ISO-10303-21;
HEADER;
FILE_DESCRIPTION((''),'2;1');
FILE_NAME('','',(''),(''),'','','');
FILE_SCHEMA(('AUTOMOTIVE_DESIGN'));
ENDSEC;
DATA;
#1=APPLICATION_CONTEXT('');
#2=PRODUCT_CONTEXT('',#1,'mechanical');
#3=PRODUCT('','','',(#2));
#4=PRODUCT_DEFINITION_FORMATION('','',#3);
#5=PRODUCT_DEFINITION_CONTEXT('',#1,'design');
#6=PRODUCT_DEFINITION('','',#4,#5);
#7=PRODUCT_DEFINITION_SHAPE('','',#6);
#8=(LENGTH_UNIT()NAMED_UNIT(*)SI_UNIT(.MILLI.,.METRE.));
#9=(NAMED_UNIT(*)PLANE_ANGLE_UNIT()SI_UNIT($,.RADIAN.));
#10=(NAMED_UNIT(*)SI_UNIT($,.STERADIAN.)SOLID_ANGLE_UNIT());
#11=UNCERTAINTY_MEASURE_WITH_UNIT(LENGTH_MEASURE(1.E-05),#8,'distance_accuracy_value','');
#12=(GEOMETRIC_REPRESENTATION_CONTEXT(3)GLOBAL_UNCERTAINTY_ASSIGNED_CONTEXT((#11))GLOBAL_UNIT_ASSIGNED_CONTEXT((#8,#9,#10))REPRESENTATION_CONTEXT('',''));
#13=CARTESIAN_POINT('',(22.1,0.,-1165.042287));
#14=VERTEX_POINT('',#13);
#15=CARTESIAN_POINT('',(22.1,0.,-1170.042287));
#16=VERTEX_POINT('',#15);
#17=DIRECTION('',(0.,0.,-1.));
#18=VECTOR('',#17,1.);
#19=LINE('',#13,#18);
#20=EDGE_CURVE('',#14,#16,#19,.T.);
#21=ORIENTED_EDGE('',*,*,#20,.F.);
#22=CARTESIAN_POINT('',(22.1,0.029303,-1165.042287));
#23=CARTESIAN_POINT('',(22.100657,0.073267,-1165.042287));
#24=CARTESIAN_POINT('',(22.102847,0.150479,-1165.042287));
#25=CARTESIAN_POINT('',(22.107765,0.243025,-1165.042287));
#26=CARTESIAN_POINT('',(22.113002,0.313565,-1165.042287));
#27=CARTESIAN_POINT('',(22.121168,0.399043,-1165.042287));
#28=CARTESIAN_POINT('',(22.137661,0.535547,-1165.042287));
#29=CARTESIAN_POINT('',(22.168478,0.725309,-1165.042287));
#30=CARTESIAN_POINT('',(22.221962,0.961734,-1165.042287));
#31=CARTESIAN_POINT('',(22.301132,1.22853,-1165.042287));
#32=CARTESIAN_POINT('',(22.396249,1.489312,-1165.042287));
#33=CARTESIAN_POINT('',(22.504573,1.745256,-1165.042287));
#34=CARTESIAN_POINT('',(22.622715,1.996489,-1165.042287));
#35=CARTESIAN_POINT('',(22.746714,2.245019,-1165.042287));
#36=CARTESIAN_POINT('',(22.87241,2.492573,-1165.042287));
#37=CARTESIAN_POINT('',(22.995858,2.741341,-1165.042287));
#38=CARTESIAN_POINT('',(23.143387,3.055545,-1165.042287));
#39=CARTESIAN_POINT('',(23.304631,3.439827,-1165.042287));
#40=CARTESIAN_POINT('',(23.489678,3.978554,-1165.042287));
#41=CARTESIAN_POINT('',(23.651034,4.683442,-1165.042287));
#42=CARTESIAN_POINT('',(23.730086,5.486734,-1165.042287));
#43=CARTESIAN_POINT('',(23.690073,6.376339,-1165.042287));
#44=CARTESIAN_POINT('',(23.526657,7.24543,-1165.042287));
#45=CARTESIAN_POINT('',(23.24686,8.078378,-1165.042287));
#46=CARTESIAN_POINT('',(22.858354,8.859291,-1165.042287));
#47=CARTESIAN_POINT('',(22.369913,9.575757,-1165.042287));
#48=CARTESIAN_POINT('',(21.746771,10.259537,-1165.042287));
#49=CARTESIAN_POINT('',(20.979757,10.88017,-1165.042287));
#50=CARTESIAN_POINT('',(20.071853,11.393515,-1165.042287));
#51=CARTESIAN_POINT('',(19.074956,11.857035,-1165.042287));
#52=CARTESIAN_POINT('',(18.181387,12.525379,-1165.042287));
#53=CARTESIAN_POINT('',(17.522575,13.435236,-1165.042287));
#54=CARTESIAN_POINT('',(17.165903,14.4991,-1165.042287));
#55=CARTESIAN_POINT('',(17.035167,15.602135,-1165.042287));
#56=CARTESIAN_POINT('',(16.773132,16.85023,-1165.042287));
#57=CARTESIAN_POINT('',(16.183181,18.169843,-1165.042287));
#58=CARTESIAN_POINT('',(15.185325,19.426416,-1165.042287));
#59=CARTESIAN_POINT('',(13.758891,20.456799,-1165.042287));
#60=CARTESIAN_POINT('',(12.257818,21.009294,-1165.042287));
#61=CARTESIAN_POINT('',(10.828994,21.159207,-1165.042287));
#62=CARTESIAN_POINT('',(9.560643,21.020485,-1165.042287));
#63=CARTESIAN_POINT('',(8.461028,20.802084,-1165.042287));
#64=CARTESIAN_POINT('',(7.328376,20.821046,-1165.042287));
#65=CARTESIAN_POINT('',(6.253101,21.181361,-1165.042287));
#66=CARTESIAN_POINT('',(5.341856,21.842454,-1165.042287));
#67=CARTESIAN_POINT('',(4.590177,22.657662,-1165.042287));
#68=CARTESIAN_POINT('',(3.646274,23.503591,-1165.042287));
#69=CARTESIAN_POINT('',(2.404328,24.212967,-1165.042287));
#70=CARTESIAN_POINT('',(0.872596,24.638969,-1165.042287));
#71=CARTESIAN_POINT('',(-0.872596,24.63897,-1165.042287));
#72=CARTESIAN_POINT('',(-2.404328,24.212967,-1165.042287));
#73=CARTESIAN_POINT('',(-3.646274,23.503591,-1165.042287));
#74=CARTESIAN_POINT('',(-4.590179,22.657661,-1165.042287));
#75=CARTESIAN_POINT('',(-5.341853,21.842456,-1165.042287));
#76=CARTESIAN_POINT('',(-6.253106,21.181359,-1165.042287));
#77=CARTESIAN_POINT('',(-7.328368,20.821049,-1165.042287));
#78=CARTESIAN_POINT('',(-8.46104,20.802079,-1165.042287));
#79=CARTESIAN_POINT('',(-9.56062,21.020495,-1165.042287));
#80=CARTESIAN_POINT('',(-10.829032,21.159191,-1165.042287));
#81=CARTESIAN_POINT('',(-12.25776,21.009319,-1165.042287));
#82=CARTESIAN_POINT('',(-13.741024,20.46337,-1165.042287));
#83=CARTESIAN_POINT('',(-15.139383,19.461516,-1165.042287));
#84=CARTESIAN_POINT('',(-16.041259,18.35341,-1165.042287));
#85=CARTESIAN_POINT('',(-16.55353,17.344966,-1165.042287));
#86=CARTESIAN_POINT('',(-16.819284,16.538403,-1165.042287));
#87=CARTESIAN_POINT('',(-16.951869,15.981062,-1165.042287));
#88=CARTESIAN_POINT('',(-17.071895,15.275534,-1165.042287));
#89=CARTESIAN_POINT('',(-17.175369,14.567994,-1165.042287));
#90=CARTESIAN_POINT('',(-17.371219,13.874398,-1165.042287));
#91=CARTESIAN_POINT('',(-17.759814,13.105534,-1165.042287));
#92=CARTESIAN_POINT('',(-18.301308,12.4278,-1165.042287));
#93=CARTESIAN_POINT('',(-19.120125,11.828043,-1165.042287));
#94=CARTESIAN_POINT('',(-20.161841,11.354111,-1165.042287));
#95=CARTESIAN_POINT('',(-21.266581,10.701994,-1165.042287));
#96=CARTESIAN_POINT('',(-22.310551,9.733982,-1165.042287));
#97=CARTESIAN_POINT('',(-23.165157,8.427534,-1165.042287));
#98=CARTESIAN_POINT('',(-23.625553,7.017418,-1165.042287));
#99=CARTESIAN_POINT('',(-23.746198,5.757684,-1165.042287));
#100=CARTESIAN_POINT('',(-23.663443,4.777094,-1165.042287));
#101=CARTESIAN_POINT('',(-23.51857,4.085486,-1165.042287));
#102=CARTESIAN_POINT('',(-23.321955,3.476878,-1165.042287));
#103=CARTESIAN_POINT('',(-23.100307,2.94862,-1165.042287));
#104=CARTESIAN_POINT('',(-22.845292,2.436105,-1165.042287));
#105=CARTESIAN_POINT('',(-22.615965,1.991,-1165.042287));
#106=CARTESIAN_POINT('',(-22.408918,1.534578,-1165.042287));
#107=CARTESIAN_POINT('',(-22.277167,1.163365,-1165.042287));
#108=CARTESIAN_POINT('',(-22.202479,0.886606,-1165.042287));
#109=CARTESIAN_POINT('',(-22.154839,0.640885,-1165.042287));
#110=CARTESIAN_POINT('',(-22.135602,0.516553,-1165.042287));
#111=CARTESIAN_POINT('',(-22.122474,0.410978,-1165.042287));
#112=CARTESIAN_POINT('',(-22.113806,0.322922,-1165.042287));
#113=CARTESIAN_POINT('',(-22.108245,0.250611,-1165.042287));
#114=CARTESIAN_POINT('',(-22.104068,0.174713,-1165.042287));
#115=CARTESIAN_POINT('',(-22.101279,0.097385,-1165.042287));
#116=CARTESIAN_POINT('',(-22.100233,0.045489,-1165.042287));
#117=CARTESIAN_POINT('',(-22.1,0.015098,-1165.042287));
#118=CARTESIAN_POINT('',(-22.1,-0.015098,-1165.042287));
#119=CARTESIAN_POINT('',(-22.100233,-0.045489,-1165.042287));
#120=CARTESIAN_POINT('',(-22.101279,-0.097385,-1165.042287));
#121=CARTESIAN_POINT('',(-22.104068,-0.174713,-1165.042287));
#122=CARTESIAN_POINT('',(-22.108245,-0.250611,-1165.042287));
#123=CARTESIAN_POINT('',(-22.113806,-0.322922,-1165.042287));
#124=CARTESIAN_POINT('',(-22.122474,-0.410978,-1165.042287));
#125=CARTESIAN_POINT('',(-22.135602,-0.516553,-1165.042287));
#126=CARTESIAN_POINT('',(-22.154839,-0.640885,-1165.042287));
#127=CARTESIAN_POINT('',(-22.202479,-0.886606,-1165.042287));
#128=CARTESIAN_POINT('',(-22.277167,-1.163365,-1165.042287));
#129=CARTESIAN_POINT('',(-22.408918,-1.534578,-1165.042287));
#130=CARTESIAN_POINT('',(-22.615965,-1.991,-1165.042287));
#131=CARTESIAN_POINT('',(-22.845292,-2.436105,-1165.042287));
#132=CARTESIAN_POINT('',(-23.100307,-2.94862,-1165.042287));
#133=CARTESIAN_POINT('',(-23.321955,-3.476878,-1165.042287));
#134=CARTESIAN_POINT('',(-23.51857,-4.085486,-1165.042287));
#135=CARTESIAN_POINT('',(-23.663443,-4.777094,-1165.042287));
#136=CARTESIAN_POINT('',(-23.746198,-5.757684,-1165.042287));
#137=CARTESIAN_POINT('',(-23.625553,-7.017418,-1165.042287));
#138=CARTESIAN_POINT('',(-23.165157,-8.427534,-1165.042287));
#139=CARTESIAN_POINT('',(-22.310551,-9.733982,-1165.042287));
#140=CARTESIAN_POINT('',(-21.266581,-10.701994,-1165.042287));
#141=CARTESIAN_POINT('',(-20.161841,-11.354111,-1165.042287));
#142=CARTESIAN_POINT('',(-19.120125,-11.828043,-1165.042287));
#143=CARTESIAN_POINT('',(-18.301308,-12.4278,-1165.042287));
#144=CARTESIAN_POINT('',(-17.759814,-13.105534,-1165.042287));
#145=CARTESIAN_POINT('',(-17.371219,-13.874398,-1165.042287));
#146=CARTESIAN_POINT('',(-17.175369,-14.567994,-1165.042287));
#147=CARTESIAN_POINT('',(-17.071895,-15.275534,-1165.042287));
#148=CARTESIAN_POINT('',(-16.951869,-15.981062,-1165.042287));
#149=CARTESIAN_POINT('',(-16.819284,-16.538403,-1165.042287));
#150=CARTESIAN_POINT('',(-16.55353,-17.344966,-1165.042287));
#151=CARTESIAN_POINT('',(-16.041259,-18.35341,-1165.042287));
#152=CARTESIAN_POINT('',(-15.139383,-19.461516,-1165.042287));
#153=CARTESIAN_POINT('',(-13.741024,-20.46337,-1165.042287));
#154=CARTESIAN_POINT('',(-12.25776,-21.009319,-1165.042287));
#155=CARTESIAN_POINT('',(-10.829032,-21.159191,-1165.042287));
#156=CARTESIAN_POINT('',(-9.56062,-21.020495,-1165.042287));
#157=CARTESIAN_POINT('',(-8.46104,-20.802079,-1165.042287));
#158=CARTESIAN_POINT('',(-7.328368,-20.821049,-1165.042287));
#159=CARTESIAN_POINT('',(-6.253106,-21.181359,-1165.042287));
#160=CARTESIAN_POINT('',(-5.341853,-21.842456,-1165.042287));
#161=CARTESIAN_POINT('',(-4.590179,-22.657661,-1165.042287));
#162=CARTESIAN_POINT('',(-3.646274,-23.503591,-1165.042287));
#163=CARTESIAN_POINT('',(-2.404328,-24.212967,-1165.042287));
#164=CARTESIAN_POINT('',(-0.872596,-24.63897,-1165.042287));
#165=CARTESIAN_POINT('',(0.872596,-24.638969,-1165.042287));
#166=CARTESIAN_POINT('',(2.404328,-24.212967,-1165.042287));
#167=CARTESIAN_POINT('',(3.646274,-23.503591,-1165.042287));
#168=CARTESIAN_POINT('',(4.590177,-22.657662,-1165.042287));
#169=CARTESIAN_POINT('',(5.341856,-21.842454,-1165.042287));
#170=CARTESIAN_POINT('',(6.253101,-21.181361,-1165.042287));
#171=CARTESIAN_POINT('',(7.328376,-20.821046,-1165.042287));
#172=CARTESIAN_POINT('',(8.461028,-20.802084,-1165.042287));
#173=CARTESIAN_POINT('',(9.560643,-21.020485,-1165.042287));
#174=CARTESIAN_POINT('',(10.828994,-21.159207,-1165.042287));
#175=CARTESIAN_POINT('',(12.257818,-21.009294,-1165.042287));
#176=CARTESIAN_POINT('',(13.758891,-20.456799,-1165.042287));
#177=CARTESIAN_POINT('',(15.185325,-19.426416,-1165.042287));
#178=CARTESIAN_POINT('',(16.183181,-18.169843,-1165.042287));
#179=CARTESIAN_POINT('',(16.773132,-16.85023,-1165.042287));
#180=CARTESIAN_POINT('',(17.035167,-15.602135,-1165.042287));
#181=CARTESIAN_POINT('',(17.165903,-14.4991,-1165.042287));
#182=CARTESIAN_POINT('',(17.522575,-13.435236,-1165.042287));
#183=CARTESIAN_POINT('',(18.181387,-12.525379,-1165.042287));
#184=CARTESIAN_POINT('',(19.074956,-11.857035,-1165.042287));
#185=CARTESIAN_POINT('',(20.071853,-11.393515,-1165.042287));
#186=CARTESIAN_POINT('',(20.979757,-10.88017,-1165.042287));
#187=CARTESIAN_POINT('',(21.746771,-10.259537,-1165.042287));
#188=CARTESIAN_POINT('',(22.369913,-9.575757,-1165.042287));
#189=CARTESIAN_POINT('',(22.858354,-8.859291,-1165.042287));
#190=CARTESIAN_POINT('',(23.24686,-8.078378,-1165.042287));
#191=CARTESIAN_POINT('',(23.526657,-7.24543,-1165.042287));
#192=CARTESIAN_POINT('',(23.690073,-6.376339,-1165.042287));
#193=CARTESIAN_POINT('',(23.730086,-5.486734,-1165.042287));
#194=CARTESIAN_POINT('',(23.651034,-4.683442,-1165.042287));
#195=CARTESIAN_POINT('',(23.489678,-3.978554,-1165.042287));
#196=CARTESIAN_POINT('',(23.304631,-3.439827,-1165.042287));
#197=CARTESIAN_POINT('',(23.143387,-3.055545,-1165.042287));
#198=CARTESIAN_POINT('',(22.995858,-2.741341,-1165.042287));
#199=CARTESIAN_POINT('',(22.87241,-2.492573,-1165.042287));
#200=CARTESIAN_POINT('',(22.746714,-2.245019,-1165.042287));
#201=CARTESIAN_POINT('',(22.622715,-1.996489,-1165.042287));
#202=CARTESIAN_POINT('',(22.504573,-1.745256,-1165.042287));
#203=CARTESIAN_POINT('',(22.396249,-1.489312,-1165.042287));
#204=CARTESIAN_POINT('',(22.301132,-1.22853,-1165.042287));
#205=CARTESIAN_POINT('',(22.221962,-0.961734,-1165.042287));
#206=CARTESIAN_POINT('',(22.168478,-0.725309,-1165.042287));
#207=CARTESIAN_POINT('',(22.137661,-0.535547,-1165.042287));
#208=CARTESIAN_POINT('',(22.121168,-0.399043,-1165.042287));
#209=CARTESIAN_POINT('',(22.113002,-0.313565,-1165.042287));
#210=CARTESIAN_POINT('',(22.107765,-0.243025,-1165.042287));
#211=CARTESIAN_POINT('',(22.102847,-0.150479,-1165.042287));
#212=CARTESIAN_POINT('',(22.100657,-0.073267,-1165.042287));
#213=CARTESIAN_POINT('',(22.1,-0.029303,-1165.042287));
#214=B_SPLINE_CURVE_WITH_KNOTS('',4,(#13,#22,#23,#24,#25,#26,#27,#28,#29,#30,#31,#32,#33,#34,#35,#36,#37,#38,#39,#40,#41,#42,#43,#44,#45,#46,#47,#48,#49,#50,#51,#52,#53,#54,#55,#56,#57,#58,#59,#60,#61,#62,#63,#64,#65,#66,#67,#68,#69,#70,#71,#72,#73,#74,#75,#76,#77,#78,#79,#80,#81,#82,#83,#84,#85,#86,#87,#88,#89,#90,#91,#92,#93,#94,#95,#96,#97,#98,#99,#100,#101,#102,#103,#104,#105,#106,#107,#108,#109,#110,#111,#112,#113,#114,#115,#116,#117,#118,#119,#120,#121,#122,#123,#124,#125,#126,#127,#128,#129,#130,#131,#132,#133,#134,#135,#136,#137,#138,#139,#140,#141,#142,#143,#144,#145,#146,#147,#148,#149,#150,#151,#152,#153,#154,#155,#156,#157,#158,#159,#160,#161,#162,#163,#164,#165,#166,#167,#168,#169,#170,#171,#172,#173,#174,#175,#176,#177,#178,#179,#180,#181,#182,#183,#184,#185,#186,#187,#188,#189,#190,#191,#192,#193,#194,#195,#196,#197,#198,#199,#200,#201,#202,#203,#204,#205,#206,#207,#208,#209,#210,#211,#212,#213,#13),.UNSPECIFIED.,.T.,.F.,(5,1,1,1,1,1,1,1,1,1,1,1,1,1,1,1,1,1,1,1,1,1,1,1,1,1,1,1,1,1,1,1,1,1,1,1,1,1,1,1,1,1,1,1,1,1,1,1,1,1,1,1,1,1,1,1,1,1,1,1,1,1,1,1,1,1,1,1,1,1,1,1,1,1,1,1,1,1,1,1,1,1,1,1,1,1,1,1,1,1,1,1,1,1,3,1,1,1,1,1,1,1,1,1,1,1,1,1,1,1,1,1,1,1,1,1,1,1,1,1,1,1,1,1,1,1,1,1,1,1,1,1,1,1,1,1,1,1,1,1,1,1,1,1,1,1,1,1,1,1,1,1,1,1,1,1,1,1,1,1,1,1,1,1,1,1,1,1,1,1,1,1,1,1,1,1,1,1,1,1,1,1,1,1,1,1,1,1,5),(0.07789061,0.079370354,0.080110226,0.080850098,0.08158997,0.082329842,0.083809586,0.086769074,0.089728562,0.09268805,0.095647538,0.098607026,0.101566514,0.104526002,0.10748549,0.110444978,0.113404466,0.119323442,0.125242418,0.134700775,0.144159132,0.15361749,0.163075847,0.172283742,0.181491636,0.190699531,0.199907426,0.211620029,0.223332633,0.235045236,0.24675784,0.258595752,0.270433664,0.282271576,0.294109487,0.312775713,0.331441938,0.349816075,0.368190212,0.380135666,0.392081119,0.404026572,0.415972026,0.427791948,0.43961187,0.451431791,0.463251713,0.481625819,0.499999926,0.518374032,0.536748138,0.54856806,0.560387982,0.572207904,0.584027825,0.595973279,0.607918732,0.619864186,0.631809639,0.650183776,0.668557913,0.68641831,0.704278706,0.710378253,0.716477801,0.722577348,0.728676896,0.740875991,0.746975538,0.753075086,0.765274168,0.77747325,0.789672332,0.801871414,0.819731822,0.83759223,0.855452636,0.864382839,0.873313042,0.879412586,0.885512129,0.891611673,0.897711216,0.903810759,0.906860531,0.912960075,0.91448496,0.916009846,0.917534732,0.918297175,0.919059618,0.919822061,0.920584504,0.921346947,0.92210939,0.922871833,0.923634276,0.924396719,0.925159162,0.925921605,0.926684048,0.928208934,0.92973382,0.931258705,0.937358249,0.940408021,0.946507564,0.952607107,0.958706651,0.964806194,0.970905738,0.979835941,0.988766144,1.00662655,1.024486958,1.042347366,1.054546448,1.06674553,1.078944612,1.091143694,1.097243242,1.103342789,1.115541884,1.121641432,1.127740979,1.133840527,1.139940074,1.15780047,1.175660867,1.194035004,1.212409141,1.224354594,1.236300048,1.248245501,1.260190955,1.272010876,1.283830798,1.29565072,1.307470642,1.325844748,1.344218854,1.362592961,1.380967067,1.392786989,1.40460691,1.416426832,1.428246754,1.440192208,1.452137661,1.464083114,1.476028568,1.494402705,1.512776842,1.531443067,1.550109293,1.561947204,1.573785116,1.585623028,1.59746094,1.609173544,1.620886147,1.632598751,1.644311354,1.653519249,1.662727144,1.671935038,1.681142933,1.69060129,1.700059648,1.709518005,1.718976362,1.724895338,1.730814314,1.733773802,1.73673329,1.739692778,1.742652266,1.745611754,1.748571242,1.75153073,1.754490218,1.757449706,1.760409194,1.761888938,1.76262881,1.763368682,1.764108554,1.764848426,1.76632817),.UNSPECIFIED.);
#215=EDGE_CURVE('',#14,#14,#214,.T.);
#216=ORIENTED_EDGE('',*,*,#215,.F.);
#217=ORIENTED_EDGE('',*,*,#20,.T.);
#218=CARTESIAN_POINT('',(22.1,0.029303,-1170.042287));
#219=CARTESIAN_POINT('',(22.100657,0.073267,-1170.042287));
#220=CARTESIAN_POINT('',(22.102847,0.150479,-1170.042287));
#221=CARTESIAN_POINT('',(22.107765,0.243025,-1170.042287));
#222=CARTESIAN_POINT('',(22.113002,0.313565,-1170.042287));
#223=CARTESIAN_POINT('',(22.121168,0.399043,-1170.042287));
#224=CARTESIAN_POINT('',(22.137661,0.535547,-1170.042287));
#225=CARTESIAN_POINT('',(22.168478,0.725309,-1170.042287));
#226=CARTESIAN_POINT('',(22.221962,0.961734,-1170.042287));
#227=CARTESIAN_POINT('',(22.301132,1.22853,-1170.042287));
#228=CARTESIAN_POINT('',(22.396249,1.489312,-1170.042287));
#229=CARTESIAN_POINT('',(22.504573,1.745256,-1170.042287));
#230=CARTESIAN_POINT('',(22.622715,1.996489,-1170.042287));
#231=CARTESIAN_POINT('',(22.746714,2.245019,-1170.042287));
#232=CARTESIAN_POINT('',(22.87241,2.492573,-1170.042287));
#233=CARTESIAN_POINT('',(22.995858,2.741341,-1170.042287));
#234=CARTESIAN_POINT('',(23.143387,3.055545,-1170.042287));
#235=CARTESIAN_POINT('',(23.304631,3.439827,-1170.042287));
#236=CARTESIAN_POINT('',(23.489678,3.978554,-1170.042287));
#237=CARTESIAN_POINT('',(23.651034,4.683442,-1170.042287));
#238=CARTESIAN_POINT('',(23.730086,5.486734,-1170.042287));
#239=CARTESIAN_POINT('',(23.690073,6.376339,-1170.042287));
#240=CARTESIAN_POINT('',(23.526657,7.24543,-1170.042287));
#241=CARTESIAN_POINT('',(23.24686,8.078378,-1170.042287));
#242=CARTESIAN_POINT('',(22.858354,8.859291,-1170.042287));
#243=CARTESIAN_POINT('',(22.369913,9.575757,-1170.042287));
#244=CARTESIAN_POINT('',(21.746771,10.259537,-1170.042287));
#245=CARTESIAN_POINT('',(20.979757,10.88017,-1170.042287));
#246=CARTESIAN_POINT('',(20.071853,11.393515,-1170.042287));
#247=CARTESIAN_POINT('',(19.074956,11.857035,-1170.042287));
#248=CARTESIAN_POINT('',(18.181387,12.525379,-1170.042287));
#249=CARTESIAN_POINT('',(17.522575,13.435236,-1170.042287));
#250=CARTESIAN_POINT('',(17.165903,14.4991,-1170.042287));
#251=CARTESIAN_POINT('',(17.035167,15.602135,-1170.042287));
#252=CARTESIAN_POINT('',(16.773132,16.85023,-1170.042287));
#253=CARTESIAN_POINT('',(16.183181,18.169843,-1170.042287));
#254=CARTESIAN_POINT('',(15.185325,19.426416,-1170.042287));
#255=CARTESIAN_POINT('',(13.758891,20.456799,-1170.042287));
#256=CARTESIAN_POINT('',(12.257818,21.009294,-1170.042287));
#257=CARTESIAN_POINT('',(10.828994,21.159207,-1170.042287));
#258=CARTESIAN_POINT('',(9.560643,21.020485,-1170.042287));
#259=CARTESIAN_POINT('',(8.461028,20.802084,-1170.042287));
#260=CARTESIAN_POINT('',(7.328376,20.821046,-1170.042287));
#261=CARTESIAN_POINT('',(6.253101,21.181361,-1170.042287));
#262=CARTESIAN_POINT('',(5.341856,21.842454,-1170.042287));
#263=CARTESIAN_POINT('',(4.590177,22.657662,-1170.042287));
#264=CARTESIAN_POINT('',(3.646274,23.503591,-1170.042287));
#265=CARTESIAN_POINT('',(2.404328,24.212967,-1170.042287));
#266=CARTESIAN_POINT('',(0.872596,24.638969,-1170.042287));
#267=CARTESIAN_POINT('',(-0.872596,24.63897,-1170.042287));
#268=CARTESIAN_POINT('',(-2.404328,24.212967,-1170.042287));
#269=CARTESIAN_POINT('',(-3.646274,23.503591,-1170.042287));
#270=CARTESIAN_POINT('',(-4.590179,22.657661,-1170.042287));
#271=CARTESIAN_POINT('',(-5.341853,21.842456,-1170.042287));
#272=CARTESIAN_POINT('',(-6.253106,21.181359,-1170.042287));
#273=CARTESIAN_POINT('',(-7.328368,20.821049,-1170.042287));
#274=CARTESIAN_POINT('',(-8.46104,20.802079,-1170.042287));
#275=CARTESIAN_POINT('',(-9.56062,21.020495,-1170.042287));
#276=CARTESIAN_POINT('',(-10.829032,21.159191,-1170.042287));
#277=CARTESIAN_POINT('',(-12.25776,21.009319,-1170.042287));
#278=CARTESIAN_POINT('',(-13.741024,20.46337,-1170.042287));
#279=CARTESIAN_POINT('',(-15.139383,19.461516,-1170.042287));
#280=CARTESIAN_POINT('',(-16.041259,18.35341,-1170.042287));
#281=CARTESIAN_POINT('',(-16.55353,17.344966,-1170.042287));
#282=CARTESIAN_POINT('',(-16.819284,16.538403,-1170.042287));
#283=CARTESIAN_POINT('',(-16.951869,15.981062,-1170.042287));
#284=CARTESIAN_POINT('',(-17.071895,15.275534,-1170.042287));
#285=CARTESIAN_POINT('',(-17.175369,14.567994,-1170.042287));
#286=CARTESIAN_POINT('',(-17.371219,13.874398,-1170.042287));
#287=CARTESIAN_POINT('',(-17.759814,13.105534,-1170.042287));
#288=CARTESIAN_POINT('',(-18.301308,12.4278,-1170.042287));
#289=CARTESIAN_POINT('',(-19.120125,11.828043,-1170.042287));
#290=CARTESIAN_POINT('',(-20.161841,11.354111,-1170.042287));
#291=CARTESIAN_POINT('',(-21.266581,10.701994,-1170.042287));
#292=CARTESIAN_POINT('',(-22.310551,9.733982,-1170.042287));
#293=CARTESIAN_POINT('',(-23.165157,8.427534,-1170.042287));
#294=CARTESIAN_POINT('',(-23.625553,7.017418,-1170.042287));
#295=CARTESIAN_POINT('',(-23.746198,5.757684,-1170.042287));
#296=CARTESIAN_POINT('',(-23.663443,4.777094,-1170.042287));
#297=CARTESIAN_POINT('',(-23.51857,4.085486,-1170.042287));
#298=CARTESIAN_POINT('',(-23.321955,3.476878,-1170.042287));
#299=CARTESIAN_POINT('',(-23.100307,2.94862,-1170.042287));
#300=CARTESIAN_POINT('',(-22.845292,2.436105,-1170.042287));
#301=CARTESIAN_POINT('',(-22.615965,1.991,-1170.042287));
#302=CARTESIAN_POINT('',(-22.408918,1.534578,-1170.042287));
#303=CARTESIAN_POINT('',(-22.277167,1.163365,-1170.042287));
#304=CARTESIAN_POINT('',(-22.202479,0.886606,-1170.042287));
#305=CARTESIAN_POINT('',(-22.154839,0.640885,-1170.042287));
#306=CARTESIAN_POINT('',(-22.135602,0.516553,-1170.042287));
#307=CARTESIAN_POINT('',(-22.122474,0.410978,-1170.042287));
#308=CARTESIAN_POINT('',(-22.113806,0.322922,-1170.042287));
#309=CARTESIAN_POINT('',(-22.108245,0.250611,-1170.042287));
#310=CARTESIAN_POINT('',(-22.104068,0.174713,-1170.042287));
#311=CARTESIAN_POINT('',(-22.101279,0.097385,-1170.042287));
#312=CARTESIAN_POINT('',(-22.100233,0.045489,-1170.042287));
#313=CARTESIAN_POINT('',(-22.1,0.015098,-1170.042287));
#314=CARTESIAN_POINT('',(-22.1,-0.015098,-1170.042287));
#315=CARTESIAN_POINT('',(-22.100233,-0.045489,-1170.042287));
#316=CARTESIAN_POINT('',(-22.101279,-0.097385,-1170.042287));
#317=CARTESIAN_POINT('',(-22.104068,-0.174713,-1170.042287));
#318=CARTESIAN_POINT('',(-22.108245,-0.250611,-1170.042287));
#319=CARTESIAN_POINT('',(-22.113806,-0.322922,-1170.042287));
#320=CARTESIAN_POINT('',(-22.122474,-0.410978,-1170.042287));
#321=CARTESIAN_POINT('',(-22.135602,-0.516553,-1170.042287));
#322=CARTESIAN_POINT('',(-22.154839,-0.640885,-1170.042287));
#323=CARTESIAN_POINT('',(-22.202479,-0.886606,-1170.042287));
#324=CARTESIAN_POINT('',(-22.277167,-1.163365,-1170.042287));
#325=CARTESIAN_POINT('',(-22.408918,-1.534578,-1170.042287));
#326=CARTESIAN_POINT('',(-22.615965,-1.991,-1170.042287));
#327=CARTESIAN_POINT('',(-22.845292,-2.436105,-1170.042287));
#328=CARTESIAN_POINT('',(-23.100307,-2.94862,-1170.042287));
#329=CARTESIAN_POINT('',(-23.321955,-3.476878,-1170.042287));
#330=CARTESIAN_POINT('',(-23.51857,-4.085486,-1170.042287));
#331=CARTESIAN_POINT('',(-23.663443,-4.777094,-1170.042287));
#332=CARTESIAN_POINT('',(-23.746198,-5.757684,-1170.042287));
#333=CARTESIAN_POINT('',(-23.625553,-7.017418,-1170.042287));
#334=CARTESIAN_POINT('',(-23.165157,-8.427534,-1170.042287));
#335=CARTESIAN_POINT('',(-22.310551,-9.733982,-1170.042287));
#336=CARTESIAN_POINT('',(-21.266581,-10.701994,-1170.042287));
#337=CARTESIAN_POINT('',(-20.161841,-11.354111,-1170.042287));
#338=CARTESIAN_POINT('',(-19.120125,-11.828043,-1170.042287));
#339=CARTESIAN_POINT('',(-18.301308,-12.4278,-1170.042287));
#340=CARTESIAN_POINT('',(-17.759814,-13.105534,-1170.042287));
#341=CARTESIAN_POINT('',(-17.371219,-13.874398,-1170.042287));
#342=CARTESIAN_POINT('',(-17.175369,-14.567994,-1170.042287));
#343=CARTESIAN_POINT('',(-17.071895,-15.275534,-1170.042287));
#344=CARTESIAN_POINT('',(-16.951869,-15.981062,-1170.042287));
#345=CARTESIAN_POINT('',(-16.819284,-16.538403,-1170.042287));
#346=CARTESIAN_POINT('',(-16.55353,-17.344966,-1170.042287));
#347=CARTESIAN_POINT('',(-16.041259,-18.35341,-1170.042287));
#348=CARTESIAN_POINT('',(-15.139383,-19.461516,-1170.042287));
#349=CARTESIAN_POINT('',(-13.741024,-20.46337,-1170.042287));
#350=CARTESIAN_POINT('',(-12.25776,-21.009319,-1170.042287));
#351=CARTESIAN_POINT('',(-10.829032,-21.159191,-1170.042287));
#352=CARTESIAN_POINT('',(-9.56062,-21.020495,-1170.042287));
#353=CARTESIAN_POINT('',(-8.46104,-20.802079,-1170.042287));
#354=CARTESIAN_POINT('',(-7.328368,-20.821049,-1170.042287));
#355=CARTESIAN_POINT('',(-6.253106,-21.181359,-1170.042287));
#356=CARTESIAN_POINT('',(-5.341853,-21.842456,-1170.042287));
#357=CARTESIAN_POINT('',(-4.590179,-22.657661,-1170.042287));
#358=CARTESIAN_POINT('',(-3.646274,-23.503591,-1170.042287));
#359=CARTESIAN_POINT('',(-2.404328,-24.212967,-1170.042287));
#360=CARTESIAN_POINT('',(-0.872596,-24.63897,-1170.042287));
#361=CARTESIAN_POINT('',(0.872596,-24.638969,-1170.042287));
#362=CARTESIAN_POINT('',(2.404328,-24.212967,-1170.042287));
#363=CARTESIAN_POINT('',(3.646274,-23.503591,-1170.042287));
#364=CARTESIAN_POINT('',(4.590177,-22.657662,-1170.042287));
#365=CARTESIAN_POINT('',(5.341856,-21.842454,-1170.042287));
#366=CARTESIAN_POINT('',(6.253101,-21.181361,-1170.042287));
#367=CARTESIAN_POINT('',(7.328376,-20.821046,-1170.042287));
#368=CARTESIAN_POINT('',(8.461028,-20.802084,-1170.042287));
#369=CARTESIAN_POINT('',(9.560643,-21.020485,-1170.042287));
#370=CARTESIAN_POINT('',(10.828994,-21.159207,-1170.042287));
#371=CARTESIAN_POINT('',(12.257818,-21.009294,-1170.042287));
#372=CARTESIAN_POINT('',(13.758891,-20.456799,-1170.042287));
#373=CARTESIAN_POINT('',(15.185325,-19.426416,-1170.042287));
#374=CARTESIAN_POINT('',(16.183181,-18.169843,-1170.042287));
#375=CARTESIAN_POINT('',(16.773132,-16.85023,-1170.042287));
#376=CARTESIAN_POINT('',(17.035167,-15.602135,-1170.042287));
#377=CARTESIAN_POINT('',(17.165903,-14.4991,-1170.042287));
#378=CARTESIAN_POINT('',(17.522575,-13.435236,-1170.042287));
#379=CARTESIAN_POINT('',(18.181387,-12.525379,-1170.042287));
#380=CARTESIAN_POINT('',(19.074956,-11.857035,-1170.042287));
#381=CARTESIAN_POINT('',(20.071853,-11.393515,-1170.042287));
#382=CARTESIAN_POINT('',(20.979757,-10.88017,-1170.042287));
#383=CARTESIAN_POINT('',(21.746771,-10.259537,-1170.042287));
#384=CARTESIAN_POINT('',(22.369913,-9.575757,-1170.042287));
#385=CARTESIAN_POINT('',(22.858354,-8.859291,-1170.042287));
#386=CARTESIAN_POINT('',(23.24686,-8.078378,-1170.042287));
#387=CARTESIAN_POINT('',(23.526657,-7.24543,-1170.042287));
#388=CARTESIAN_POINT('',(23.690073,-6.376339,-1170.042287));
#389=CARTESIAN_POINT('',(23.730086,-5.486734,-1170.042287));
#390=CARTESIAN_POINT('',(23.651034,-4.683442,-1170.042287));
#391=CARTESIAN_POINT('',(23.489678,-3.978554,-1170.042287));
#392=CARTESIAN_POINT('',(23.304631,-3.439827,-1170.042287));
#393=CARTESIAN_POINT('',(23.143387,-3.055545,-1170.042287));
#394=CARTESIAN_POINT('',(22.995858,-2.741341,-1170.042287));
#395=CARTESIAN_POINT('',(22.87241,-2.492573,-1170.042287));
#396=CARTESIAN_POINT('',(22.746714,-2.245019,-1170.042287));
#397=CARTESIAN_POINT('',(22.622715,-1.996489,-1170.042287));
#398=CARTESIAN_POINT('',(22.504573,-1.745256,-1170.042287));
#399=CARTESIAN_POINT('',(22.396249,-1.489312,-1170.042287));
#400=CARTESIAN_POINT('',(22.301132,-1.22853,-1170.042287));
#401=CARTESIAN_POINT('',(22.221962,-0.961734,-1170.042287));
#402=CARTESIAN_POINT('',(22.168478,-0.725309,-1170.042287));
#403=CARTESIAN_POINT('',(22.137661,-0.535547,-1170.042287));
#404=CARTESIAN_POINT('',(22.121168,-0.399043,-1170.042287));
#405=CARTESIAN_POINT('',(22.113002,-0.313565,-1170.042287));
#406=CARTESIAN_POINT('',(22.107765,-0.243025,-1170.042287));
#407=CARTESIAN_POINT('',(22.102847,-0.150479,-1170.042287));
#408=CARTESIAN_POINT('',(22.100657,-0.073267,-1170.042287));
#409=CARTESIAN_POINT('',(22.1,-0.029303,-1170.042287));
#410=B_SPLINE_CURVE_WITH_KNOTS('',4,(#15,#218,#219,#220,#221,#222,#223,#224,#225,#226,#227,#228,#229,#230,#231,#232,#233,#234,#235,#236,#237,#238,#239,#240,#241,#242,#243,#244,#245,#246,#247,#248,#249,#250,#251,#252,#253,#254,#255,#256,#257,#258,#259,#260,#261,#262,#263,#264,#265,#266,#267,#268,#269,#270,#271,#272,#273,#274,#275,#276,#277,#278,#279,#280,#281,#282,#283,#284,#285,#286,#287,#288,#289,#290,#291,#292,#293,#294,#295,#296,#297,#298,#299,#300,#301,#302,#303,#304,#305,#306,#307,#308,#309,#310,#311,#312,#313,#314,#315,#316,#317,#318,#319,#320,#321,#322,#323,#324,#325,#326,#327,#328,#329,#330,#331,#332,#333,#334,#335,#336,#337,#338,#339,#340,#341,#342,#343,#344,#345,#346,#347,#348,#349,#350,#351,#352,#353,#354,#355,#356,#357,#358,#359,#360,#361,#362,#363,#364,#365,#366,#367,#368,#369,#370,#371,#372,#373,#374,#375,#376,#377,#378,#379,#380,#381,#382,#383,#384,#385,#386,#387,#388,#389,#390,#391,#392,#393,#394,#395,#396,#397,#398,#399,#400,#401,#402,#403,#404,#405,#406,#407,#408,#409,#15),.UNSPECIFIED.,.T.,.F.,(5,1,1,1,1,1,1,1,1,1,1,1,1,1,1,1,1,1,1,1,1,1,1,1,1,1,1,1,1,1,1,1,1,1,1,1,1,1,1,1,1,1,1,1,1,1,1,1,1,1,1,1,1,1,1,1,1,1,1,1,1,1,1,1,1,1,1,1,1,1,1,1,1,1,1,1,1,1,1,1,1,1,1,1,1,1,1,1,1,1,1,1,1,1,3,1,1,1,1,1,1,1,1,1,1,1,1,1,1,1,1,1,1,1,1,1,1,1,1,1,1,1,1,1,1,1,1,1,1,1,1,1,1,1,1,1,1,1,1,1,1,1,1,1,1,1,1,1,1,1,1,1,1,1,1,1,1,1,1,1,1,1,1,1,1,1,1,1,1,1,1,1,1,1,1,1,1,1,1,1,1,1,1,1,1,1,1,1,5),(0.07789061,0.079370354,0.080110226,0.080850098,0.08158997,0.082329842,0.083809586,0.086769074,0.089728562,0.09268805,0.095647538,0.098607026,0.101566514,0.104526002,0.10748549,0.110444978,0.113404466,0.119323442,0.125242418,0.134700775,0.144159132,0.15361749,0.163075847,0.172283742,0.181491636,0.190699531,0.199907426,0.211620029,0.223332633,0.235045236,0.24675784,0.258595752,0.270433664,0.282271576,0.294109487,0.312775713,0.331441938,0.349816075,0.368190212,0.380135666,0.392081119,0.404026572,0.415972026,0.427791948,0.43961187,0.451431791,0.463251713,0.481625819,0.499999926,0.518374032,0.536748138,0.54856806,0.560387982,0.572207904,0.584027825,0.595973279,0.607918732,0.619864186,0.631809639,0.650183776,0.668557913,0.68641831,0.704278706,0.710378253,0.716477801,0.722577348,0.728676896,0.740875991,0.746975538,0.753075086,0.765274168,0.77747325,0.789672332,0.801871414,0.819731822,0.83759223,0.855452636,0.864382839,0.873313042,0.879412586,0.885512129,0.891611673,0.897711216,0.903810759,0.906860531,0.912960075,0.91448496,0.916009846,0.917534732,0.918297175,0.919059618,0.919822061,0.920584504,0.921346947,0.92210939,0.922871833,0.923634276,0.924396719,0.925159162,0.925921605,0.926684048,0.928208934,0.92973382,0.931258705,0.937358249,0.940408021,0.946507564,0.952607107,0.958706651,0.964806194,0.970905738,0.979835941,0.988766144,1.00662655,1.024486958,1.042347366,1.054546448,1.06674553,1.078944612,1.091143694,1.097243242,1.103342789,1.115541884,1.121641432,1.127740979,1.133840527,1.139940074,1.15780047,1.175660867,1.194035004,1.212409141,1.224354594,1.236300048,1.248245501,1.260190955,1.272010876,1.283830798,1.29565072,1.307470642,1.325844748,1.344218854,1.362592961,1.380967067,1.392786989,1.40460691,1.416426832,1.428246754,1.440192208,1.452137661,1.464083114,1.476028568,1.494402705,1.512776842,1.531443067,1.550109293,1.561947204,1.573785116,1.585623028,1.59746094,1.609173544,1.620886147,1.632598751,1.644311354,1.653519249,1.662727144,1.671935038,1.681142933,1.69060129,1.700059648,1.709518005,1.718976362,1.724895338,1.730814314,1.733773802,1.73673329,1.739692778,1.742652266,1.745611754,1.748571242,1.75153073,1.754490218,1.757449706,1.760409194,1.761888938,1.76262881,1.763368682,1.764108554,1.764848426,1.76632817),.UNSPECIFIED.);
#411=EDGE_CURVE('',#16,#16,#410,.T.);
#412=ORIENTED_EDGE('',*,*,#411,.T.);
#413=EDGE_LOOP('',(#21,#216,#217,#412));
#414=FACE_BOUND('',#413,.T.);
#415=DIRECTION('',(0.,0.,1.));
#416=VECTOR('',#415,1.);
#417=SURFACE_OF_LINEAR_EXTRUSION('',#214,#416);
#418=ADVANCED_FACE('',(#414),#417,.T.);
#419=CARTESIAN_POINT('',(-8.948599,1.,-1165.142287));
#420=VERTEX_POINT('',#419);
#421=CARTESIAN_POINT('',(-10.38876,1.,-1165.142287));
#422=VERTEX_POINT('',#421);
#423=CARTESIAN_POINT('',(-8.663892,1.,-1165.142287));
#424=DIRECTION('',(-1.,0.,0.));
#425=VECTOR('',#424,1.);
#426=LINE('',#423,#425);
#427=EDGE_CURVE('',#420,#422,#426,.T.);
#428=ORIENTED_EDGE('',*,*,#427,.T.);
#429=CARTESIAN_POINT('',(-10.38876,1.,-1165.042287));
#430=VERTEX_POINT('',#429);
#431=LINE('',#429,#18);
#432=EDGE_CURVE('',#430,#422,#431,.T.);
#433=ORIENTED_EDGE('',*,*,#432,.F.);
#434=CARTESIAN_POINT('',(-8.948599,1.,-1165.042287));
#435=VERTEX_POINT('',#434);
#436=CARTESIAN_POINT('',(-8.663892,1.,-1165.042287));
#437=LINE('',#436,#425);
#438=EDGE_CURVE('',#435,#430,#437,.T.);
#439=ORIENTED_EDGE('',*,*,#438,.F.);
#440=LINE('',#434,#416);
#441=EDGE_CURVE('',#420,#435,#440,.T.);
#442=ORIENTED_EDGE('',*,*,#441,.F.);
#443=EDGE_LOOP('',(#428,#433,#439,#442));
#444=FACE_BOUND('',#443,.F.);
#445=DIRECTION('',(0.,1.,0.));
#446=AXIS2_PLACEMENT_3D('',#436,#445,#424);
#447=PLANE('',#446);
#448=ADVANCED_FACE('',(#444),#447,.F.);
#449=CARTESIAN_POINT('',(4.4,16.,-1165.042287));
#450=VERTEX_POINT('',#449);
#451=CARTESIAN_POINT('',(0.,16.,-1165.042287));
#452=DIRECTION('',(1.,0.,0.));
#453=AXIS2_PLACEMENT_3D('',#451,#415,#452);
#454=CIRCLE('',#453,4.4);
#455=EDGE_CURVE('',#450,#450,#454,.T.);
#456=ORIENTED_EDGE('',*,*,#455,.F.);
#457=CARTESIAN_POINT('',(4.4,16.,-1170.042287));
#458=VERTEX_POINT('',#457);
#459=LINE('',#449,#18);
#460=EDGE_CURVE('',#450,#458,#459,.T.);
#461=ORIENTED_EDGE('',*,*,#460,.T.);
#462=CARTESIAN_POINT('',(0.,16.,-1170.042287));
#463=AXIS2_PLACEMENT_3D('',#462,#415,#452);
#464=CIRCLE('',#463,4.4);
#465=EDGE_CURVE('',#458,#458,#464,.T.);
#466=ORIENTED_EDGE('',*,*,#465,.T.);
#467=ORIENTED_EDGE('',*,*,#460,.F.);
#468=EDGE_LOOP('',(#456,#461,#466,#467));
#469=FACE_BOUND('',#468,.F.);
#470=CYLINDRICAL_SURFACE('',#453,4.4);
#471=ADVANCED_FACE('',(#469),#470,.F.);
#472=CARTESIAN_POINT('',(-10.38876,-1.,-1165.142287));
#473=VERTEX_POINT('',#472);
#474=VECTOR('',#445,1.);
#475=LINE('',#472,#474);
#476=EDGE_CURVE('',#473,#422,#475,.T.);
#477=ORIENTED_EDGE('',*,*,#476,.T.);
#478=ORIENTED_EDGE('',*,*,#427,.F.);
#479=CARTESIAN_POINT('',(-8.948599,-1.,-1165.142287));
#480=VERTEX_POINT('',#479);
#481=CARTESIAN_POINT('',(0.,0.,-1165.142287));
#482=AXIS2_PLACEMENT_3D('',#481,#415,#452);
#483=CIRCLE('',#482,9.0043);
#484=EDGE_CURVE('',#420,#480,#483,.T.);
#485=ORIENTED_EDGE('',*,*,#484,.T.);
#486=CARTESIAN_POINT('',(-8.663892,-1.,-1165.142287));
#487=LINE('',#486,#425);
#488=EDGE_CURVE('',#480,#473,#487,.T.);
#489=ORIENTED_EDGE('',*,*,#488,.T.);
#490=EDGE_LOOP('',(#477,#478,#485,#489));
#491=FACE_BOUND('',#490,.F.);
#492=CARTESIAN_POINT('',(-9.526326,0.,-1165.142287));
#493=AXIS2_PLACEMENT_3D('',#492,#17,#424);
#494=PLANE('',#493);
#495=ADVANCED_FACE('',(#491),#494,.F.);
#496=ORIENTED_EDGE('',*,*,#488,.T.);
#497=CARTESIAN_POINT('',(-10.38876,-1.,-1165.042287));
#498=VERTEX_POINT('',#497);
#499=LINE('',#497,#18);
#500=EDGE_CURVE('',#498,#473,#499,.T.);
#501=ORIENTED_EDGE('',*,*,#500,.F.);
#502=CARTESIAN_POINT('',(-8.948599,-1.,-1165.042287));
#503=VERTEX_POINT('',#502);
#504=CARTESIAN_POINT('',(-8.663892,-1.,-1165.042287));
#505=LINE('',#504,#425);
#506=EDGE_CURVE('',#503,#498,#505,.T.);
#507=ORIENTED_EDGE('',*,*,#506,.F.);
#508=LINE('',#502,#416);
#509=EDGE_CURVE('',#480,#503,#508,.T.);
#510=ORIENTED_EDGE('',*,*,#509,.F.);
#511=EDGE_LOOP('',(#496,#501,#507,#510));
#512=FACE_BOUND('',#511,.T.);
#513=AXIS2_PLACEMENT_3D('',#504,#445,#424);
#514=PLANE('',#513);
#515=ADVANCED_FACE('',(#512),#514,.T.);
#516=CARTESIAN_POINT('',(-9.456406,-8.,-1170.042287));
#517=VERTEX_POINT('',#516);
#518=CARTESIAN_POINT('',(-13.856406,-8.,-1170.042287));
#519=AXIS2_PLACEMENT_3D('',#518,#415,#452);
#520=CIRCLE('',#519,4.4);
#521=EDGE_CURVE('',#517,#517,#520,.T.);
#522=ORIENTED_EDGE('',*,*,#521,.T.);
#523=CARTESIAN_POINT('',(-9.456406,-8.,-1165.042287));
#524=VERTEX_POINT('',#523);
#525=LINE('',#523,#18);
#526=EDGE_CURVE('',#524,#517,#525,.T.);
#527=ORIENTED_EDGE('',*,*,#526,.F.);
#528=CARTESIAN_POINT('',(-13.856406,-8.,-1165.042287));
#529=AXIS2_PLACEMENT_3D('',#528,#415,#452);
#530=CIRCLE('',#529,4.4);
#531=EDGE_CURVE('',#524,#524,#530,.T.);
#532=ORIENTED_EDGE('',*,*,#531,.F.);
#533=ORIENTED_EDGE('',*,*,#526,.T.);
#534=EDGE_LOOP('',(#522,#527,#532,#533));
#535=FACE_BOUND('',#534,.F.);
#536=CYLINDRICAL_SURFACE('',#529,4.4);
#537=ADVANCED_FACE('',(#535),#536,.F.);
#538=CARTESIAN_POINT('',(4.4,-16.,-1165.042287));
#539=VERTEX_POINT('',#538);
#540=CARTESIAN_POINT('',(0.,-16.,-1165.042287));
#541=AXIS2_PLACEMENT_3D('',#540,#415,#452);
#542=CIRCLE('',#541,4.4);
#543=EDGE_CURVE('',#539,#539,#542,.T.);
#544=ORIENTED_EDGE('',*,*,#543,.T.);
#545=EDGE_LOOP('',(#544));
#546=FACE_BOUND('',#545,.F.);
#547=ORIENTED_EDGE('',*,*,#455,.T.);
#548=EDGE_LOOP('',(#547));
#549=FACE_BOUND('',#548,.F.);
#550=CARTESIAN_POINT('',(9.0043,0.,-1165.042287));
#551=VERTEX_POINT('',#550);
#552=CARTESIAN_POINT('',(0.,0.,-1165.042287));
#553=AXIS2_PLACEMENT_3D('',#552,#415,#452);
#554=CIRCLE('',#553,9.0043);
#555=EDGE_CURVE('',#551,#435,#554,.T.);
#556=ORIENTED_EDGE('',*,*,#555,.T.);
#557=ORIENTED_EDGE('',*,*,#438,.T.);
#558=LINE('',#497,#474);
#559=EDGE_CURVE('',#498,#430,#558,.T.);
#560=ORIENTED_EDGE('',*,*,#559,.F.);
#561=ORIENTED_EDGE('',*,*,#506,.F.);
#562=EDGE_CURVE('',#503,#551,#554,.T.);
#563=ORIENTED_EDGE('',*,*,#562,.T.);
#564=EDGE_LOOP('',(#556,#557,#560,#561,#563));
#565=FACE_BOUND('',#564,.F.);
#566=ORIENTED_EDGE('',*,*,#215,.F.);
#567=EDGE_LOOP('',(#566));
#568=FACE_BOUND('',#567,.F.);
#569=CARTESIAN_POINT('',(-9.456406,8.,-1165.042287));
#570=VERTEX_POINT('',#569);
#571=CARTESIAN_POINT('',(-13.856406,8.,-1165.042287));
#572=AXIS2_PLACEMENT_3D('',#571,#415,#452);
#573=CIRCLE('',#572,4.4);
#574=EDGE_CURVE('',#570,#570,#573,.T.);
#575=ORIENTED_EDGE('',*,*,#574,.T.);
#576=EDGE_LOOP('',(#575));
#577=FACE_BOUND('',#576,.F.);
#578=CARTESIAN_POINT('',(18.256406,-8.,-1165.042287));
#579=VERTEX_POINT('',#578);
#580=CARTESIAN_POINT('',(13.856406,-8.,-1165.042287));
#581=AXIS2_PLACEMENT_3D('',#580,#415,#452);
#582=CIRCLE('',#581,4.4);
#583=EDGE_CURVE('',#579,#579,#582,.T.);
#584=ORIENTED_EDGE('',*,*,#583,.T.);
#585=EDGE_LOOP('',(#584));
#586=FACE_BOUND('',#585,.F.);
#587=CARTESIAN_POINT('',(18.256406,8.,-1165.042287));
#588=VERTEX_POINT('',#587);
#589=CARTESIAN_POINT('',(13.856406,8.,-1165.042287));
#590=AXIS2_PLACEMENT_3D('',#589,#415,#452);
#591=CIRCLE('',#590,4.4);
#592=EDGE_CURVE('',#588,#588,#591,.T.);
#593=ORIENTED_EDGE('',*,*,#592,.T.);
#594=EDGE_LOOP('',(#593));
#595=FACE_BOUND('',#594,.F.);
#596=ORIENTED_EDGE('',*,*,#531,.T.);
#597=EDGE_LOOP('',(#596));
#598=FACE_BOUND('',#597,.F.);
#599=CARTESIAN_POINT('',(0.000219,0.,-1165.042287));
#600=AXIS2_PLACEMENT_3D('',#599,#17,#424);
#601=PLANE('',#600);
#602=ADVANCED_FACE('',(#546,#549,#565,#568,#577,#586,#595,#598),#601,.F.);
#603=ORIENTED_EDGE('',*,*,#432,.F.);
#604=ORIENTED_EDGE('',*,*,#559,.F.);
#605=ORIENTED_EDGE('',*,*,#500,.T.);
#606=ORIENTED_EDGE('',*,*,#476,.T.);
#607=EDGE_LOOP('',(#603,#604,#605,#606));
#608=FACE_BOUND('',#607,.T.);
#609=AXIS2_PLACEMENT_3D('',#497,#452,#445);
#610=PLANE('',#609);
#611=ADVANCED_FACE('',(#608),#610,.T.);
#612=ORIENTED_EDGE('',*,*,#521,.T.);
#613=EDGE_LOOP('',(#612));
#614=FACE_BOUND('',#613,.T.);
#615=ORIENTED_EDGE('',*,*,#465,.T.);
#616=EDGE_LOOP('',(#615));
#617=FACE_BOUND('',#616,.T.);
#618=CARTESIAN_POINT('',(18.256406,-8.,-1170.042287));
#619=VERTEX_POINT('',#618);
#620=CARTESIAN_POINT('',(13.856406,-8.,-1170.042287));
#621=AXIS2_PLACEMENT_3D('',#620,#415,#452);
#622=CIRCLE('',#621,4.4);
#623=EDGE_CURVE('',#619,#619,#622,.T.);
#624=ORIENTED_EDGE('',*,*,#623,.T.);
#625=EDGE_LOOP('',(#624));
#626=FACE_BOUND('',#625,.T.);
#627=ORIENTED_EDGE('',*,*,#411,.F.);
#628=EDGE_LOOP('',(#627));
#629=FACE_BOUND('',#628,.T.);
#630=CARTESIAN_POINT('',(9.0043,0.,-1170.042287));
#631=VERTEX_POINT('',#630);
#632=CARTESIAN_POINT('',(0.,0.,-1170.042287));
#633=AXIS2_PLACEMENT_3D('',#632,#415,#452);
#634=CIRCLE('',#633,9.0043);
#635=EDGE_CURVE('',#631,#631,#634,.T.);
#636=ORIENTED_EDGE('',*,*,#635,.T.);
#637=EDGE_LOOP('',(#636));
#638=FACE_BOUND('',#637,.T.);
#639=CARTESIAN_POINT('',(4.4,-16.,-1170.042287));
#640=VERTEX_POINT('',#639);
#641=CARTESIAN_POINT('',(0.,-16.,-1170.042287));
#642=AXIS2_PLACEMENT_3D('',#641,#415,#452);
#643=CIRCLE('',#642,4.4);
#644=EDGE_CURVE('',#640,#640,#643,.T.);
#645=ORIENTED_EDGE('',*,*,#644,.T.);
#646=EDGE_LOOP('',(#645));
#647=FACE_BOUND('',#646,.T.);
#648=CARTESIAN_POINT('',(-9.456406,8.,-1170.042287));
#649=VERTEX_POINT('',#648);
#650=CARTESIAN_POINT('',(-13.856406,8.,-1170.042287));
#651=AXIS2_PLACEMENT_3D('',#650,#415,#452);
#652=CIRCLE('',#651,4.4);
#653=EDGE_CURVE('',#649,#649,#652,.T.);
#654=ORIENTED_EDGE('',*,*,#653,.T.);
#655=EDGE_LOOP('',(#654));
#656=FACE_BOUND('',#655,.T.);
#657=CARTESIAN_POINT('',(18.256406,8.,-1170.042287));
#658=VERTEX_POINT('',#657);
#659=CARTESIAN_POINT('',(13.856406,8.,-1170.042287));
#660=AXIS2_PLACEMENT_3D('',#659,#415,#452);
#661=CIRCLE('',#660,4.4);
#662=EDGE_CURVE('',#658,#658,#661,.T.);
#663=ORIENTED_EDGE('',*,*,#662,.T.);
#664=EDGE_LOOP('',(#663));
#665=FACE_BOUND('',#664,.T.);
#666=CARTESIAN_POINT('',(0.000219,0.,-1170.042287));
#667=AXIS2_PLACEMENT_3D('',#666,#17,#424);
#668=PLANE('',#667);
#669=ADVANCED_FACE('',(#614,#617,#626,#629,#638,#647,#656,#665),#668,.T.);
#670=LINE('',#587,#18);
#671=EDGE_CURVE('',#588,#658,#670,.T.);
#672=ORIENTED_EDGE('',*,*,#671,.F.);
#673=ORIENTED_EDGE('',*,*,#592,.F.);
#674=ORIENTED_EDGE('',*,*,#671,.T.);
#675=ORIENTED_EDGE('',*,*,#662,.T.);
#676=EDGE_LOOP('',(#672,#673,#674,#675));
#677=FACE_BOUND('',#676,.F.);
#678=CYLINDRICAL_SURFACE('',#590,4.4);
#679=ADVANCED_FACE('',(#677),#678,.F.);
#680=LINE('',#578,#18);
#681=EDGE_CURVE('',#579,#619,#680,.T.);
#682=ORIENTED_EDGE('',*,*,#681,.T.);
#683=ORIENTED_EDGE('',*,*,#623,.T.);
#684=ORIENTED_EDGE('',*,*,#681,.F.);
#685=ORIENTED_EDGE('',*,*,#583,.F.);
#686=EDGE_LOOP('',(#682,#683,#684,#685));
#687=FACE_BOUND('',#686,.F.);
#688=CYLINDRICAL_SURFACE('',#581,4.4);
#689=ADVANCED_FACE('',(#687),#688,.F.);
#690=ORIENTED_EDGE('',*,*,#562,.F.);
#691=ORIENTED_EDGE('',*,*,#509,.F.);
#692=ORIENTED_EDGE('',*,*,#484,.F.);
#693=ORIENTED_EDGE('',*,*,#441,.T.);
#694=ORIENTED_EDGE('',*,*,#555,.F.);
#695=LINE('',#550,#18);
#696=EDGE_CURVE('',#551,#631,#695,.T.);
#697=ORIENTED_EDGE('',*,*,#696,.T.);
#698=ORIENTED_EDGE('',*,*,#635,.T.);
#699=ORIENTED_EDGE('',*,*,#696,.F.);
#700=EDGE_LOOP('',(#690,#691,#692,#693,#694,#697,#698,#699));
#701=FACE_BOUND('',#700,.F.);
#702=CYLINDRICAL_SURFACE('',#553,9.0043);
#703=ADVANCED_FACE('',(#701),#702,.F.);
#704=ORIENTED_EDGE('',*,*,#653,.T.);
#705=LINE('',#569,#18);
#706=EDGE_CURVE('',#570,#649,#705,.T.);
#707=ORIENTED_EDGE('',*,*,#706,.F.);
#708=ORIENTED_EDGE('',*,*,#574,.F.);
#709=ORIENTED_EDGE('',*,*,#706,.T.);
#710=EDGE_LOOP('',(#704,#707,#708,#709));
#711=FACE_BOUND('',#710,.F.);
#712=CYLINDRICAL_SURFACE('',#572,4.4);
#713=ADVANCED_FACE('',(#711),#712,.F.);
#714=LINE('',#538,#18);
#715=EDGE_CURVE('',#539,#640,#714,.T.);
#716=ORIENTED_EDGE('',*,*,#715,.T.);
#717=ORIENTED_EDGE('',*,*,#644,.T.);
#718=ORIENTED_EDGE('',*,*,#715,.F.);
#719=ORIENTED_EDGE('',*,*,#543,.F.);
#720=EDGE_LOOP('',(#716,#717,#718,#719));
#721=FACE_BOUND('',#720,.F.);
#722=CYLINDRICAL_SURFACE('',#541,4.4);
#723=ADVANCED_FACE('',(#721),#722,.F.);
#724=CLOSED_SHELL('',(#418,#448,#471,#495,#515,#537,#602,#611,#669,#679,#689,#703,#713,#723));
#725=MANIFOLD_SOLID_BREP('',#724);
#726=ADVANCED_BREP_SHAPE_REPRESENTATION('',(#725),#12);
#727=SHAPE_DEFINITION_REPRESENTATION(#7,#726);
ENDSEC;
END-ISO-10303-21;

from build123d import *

# Parameters (mm, degrees)
SKETCH2_R           = 9.0043
SKETCH2_R_2         = 4.4
BOSS_EXTRUDE1_DEPTH = 5
CUT_EXTRUDE1_DEPTH  = 0.1


with BuildPart() as part:
    # Sketch2 → Boss-Extrude1 (new body)
    with BuildSketch(Plane.XY.offset(-1165.042287492)):
        with BuildLine():
            add(Edge.make_bspline(
                [(22.1, 0), (22.1, -0.029302567), (22.100656996, -0.073267299), (22.102846978, -0.150479345), (22.107765032, -0.243024679), (22.113002169, -0.31356521), (22.121167512, -0.399042775), (22.137660505, -0.535547313), (22.168477812, -0.725309174), (22.221962498, -0.961733919), (22.301132136, -1.228529968), (22.396248759, -1.489311546), (22.504572502, -1.745256299), (22.622714563, -1.996489409), (22.746713886, -2.245018567), (22.87241041, -2.492573124), (22.995858066, -2.741341347), (23.143387346, -3.055544856), (23.304631036, -3.439826563), (23.489677504, -3.978553819), (23.651034334, -4.683442393), (23.730085815, -5.486733771), (23.690072978, -6.376338564), (23.526656928, -7.245430382), (23.246859664, -8.078377589), (22.858354421, -8.859291128), (22.36991344, -9.575757168), (21.746771046, -10.259536929), (20.979757182, -10.880170438), (20.07185269, -11.393514988), (19.074956387, -11.857034761), (18.181387307, -12.525379462), (17.522574849, -13.435236027), (17.165903162, -14.499100143), (17.035166981, -15.602135191), (16.773131617, -16.850230243), (16.183180557, -18.169843002), (15.185324779, -19.426415814), (13.758890787, -20.45679901), (12.257817895, -21.009294245), (10.828993799, -21.15920723), (9.560643085, -21.020485338), (8.461027709, -20.802084394), (7.328375606, -20.821045963), (6.253101017, -21.181361325), (5.341855753, -21.842454293), (4.590177093, -22.657661818), (3.646274458, -23.503590974), (2.404327803, -24.212967426), (0.872596385, -24.63896937), (-0.872596249, -24.638969598), (-2.404328196, -24.212967156), (-3.646273705, -23.503591358), (-4.590178654, -22.657661122), (-5.341852785, -21.84245556), (-6.253105576, -21.1813594), (-7.328368243, -20.821049059), (-8.46104013, -20.80207918), (-9.560620352, -21.020494874), (-10.829032369, -21.159191057), (-12.257759872, -21.009318559), (-13.741024473, -20.463370436), (-15.139383208, -19.4615155), (-16.041258918, -18.353410382), (-16.553530054, -17.344966352), (-16.819283882, -16.538402702), (-16.951869323, -15.981061926), (-17.071894903, -15.275534032), (-17.175369193, -14.567994024), (-17.371218875, -13.874397941), (-17.759814305, -13.10553406), (-18.30130832, -12.427799863), (-19.120124546, -11.828042716), (-20.161840701, -11.354111243), (-21.266581229, -10.70199441), (-22.310551276, -9.733982335), (-23.165156921, -8.427533899), (-23.625552587, -7.017417615), (-23.746197848, -5.757684391), (-23.663442889, -4.777094196), (-23.518570066, -4.085486246), (-23.321955401, -3.476877841), (-23.100306653, -2.948620034), (-22.84529241, -2.436105267), (-22.615965168, -1.990999888), (-22.408917504, -1.534577596), (-22.277167112, -1.163364664), (-22.202479171, -0.886606409), (-22.154838808, -0.640885487), (-22.13560223, -0.516552839), (-22.122473754, -0.410978079), (-22.113805721, -0.322921864), (-22.10824541, -0.250610924), (-22.104067745, -0.17471333), (-22.1012791, -0.097385476), (-22.100232564, -0.045489039), (-22.1, -0.015098243), (-22.1, 0)],
                knots=[0.07789061, 0.07789061, 0.07789061, 0.07789061, 0.07789061, 0.079370354, 0.080110226, 0.080850098, 0.08158997, 0.082329842, 0.083809586, 0.086769074, 0.089728562, 0.09268805, 0.095647538, 0.098607026, 0.101566514, 0.104526002, 0.10748549, 0.110444978, 0.113404466, 0.119323442, 0.125242418, 0.134700775, 0.144159132, 0.15361749, 0.163075847, 0.172283742, 0.181491636, 0.190699531, 0.199907426, 0.211620029, 0.223332633, 0.235045236, 0.24675784, 0.258595752, 0.270433664, 0.282271576, 0.294109487, 0.312775713, 0.331441938, 0.349816075, 0.368190212, 0.380135666, 0.392081119, 0.404026572, 0.415972026, 0.427791948, 0.43961187, 0.451431791, 0.463251713, 0.481625819, 0.499999926, 0.518374032, 0.536748138, 0.54856806, 0.560387982, 0.572207904, 0.584027825, 0.595973279, 0.607918732, 0.619864186, 0.631809639, 0.650183776, 0.668557913, 0.68641831, 0.704278706, 0.710378253, 0.716477801, 0.722577348, 0.728676896, 0.740875991, 0.746975538, 0.753075086, 0.765274168, 0.77747325, 0.789672332, 0.801871414, 0.819731822, 0.83759223, 0.855452636, 0.864382839, 0.873313042, 0.879412586, 0.885512129, 0.891611673, 0.897711216, 0.903810759, 0.906860531, 0.912960075, 0.91448496, 0.916009846, 0.917534732, 0.918297175, 0.919059618, 0.919822061, 0.920584504, 0.921346947, 0.92210939, 0.92210939, 0.92210939, 0.92210939, 0.92210939], degree=4))
            add(Edge.make_bspline(
                [(22.1, 0), (22.1, 0.029302567), (22.100656996, 0.073267299), (22.102846978, 0.150479345), (22.107765032, 0.243024679), (22.113002169, 0.31356521), (22.121167512, 0.399042775), (22.137660505, 0.535547313), (22.168477812, 0.725309174), (22.221962498, 0.961733919), (22.301132136, 1.228529968), (22.396248759, 1.489311546), (22.504572502, 1.745256299), (22.622714563, 1.996489409), (22.746713886, 2.245018567), (22.87241041, 2.492573124), (22.995858066, 2.741341347), (23.143387346, 3.055544856), (23.304631036, 3.439826563), (23.489677504, 3.978553819), (23.651034334, 4.683442393), (23.730085815, 5.486733771), (23.690072978, 6.376338564), (23.526656928, 7.245430382), (23.246859664, 8.078377589), (22.858354421, 8.859291128), (22.36991344, 9.575757168), (21.746771046, 10.259536929), (20.979757182, 10.880170438), (20.07185269, 11.393514988), (19.074956387, 11.857034761), (18.181387307, 12.525379462), (17.522574849, 13.435236027), (17.165903162, 14.499100143), (17.035166981, 15.602135191), (16.773131617, 16.850230243), (16.183180557, 18.169843002), (15.185324779, 19.426415814), (13.758890787, 20.45679901), (12.257817895, 21.009294245), (10.828993799, 21.15920723), (9.560643085, 21.020485338), (8.461027709, 20.802084394), (7.328375606, 20.821045963), (6.253101017, 21.181361325), (5.341855753, 21.842454293), (4.590177093, 22.657661818), (3.646274458, 23.503590974), (2.404327803, 24.212967426), (0.872596385, 24.63896937), (-0.872596249, 24.638969598), (-2.404328196, 24.212967156), (-3.646273705, 23.503591358), (-4.590178654, 22.657661122), (-5.341852785, 21.84245556), (-6.253105576, 21.1813594), (-7.328368243, 20.821049059), (-8.46104013, 20.80207918), (-9.560620352, 21.020494874), (-10.829032369, 21.159191057), (-12.257759872, 21.009318559), (-13.741024473, 20.463370436), (-15.139383208, 19.4615155), (-16.041258918, 18.353410382), (-16.553530054, 17.344966352), (-16.819283882, 16.538402702), (-16.951869323, 15.981061926), (-17.071894903, 15.275534032), (-17.175369193, 14.567994024), (-17.371218875, 13.874397941), (-17.759814305, 13.10553406), (-18.30130832, 12.427799862), (-19.120124546, 11.828042716), (-20.161840701, 11.354111243), (-21.266581229, 10.70199441), (-22.310551276, 9.733982335), (-23.165156921, 8.427533899), (-23.625552587, 7.017417615), (-23.746197848, 5.757684391), (-23.663442889, 4.777094196), (-23.518570066, 4.085486246), (-23.321955401, 3.476877841), (-23.100306653, 2.948620034), (-22.84529241, 2.436105267), (-22.615965168, 1.990999888), (-22.408917504, 1.534577596), (-22.277167112, 1.163364663), (-22.202479171, 0.886606409), (-22.154838808, 0.640885487), (-22.13560223, 0.516552839), (-22.122473754, 0.410978079), (-22.113805721, 0.322921864), (-22.10824541, 0.250610923), (-22.104067745, 0.17471333), (-22.1012791, 0.097385476), (-22.100232564, 0.045489039), (-22.1, 0.015098243), (-22.1, 0)],
                knots=[0.07789061, 0.07789061, 0.07789061, 0.07789061, 0.07789061, 0.079370354, 0.080110226, 0.080850098, 0.08158997, 0.082329842, 0.083809586, 0.086769074, 0.089728562, 0.09268805, 0.095647538, 0.098607026, 0.101566514, 0.104526002, 0.10748549, 0.110444978, 0.113404466, 0.119323442, 0.125242418, 0.134700775, 0.144159132, 0.15361749, 0.163075847, 0.172283742, 0.181491636, 0.190699531, 0.199907426, 0.211620029, 0.223332633, 0.235045236, 0.24675784, 0.258595752, 0.270433664, 0.282271576, 0.294109487, 0.312775713, 0.331441938, 0.349816075, 0.368190212, 0.380135666, 0.392081119, 0.404026572, 0.415972026, 0.427791948, 0.43961187, 0.451431791, 0.463251713, 0.481625819, 0.499999926, 0.518374032, 0.536748138, 0.54856806, 0.560387982, 0.572207904, 0.584027825, 0.595973279, 0.607918732, 0.619864186, 0.631809639, 0.650183776, 0.668557913, 0.68641831, 0.704278706, 0.710378253, 0.716477801, 0.722577348, 0.728676896, 0.740875991, 0.746975538, 0.753075086, 0.765274168, 0.77747325, 0.789672332, 0.801871414, 0.819731822, 0.83759223, 0.855452636, 0.864382839, 0.873313042, 0.879412586, 0.885512129, 0.891611673, 0.897711216, 0.903810759, 0.906860531, 0.912960075, 0.91448496, 0.916009846, 0.917534732, 0.918297175, 0.919059618, 0.919822061, 0.920584504, 0.921346947, 0.92210939, 0.92210939, 0.92210939, 0.92210939, 0.92210939], degree=4))
        make_face()
        Circle(SKETCH2_R, mode=Mode.SUBTRACT)
        with Locations((13.856406461, 8)):
            Circle(SKETCH2_R_2, mode=Mode.SUBTRACT)
        with Locations((13.856406461, -8)):
            Circle(SKETCH2_R_2, mode=Mode.SUBTRACT)
        with Locations((0, -16)):
            Circle(SKETCH2_R_2, mode=Mode.SUBTRACT)
        with Locations((-13.856406461, -8)):
            Circle(SKETCH2_R_2, mode=Mode.SUBTRACT)
        with Locations((-13.856406461, 8)):
            Circle(SKETCH2_R_2, mode=Mode.SUBTRACT)
        with Locations((0, 16)):
            Circle(SKETCH2_R_2, mode=Mode.SUBTRACT)
    extrude(amount=-BOSS_EXTRUDE1_DEPTH)

    # Sketch3 → Cut-Extrude1 (cut)
    with BuildSketch(Plane.XY.offset(-1165.042287492)):
        Polygon((-10.388759749, -1), (-10.388759749, 1), (-8.742920185, 1), (-8.663892273, 1), (-8.663892273, -1), align=None)
    extrude(amount=-CUT_EXTRUDE1_DEPTH, mode=Mode.SUBTRACT)


solid = part.part
